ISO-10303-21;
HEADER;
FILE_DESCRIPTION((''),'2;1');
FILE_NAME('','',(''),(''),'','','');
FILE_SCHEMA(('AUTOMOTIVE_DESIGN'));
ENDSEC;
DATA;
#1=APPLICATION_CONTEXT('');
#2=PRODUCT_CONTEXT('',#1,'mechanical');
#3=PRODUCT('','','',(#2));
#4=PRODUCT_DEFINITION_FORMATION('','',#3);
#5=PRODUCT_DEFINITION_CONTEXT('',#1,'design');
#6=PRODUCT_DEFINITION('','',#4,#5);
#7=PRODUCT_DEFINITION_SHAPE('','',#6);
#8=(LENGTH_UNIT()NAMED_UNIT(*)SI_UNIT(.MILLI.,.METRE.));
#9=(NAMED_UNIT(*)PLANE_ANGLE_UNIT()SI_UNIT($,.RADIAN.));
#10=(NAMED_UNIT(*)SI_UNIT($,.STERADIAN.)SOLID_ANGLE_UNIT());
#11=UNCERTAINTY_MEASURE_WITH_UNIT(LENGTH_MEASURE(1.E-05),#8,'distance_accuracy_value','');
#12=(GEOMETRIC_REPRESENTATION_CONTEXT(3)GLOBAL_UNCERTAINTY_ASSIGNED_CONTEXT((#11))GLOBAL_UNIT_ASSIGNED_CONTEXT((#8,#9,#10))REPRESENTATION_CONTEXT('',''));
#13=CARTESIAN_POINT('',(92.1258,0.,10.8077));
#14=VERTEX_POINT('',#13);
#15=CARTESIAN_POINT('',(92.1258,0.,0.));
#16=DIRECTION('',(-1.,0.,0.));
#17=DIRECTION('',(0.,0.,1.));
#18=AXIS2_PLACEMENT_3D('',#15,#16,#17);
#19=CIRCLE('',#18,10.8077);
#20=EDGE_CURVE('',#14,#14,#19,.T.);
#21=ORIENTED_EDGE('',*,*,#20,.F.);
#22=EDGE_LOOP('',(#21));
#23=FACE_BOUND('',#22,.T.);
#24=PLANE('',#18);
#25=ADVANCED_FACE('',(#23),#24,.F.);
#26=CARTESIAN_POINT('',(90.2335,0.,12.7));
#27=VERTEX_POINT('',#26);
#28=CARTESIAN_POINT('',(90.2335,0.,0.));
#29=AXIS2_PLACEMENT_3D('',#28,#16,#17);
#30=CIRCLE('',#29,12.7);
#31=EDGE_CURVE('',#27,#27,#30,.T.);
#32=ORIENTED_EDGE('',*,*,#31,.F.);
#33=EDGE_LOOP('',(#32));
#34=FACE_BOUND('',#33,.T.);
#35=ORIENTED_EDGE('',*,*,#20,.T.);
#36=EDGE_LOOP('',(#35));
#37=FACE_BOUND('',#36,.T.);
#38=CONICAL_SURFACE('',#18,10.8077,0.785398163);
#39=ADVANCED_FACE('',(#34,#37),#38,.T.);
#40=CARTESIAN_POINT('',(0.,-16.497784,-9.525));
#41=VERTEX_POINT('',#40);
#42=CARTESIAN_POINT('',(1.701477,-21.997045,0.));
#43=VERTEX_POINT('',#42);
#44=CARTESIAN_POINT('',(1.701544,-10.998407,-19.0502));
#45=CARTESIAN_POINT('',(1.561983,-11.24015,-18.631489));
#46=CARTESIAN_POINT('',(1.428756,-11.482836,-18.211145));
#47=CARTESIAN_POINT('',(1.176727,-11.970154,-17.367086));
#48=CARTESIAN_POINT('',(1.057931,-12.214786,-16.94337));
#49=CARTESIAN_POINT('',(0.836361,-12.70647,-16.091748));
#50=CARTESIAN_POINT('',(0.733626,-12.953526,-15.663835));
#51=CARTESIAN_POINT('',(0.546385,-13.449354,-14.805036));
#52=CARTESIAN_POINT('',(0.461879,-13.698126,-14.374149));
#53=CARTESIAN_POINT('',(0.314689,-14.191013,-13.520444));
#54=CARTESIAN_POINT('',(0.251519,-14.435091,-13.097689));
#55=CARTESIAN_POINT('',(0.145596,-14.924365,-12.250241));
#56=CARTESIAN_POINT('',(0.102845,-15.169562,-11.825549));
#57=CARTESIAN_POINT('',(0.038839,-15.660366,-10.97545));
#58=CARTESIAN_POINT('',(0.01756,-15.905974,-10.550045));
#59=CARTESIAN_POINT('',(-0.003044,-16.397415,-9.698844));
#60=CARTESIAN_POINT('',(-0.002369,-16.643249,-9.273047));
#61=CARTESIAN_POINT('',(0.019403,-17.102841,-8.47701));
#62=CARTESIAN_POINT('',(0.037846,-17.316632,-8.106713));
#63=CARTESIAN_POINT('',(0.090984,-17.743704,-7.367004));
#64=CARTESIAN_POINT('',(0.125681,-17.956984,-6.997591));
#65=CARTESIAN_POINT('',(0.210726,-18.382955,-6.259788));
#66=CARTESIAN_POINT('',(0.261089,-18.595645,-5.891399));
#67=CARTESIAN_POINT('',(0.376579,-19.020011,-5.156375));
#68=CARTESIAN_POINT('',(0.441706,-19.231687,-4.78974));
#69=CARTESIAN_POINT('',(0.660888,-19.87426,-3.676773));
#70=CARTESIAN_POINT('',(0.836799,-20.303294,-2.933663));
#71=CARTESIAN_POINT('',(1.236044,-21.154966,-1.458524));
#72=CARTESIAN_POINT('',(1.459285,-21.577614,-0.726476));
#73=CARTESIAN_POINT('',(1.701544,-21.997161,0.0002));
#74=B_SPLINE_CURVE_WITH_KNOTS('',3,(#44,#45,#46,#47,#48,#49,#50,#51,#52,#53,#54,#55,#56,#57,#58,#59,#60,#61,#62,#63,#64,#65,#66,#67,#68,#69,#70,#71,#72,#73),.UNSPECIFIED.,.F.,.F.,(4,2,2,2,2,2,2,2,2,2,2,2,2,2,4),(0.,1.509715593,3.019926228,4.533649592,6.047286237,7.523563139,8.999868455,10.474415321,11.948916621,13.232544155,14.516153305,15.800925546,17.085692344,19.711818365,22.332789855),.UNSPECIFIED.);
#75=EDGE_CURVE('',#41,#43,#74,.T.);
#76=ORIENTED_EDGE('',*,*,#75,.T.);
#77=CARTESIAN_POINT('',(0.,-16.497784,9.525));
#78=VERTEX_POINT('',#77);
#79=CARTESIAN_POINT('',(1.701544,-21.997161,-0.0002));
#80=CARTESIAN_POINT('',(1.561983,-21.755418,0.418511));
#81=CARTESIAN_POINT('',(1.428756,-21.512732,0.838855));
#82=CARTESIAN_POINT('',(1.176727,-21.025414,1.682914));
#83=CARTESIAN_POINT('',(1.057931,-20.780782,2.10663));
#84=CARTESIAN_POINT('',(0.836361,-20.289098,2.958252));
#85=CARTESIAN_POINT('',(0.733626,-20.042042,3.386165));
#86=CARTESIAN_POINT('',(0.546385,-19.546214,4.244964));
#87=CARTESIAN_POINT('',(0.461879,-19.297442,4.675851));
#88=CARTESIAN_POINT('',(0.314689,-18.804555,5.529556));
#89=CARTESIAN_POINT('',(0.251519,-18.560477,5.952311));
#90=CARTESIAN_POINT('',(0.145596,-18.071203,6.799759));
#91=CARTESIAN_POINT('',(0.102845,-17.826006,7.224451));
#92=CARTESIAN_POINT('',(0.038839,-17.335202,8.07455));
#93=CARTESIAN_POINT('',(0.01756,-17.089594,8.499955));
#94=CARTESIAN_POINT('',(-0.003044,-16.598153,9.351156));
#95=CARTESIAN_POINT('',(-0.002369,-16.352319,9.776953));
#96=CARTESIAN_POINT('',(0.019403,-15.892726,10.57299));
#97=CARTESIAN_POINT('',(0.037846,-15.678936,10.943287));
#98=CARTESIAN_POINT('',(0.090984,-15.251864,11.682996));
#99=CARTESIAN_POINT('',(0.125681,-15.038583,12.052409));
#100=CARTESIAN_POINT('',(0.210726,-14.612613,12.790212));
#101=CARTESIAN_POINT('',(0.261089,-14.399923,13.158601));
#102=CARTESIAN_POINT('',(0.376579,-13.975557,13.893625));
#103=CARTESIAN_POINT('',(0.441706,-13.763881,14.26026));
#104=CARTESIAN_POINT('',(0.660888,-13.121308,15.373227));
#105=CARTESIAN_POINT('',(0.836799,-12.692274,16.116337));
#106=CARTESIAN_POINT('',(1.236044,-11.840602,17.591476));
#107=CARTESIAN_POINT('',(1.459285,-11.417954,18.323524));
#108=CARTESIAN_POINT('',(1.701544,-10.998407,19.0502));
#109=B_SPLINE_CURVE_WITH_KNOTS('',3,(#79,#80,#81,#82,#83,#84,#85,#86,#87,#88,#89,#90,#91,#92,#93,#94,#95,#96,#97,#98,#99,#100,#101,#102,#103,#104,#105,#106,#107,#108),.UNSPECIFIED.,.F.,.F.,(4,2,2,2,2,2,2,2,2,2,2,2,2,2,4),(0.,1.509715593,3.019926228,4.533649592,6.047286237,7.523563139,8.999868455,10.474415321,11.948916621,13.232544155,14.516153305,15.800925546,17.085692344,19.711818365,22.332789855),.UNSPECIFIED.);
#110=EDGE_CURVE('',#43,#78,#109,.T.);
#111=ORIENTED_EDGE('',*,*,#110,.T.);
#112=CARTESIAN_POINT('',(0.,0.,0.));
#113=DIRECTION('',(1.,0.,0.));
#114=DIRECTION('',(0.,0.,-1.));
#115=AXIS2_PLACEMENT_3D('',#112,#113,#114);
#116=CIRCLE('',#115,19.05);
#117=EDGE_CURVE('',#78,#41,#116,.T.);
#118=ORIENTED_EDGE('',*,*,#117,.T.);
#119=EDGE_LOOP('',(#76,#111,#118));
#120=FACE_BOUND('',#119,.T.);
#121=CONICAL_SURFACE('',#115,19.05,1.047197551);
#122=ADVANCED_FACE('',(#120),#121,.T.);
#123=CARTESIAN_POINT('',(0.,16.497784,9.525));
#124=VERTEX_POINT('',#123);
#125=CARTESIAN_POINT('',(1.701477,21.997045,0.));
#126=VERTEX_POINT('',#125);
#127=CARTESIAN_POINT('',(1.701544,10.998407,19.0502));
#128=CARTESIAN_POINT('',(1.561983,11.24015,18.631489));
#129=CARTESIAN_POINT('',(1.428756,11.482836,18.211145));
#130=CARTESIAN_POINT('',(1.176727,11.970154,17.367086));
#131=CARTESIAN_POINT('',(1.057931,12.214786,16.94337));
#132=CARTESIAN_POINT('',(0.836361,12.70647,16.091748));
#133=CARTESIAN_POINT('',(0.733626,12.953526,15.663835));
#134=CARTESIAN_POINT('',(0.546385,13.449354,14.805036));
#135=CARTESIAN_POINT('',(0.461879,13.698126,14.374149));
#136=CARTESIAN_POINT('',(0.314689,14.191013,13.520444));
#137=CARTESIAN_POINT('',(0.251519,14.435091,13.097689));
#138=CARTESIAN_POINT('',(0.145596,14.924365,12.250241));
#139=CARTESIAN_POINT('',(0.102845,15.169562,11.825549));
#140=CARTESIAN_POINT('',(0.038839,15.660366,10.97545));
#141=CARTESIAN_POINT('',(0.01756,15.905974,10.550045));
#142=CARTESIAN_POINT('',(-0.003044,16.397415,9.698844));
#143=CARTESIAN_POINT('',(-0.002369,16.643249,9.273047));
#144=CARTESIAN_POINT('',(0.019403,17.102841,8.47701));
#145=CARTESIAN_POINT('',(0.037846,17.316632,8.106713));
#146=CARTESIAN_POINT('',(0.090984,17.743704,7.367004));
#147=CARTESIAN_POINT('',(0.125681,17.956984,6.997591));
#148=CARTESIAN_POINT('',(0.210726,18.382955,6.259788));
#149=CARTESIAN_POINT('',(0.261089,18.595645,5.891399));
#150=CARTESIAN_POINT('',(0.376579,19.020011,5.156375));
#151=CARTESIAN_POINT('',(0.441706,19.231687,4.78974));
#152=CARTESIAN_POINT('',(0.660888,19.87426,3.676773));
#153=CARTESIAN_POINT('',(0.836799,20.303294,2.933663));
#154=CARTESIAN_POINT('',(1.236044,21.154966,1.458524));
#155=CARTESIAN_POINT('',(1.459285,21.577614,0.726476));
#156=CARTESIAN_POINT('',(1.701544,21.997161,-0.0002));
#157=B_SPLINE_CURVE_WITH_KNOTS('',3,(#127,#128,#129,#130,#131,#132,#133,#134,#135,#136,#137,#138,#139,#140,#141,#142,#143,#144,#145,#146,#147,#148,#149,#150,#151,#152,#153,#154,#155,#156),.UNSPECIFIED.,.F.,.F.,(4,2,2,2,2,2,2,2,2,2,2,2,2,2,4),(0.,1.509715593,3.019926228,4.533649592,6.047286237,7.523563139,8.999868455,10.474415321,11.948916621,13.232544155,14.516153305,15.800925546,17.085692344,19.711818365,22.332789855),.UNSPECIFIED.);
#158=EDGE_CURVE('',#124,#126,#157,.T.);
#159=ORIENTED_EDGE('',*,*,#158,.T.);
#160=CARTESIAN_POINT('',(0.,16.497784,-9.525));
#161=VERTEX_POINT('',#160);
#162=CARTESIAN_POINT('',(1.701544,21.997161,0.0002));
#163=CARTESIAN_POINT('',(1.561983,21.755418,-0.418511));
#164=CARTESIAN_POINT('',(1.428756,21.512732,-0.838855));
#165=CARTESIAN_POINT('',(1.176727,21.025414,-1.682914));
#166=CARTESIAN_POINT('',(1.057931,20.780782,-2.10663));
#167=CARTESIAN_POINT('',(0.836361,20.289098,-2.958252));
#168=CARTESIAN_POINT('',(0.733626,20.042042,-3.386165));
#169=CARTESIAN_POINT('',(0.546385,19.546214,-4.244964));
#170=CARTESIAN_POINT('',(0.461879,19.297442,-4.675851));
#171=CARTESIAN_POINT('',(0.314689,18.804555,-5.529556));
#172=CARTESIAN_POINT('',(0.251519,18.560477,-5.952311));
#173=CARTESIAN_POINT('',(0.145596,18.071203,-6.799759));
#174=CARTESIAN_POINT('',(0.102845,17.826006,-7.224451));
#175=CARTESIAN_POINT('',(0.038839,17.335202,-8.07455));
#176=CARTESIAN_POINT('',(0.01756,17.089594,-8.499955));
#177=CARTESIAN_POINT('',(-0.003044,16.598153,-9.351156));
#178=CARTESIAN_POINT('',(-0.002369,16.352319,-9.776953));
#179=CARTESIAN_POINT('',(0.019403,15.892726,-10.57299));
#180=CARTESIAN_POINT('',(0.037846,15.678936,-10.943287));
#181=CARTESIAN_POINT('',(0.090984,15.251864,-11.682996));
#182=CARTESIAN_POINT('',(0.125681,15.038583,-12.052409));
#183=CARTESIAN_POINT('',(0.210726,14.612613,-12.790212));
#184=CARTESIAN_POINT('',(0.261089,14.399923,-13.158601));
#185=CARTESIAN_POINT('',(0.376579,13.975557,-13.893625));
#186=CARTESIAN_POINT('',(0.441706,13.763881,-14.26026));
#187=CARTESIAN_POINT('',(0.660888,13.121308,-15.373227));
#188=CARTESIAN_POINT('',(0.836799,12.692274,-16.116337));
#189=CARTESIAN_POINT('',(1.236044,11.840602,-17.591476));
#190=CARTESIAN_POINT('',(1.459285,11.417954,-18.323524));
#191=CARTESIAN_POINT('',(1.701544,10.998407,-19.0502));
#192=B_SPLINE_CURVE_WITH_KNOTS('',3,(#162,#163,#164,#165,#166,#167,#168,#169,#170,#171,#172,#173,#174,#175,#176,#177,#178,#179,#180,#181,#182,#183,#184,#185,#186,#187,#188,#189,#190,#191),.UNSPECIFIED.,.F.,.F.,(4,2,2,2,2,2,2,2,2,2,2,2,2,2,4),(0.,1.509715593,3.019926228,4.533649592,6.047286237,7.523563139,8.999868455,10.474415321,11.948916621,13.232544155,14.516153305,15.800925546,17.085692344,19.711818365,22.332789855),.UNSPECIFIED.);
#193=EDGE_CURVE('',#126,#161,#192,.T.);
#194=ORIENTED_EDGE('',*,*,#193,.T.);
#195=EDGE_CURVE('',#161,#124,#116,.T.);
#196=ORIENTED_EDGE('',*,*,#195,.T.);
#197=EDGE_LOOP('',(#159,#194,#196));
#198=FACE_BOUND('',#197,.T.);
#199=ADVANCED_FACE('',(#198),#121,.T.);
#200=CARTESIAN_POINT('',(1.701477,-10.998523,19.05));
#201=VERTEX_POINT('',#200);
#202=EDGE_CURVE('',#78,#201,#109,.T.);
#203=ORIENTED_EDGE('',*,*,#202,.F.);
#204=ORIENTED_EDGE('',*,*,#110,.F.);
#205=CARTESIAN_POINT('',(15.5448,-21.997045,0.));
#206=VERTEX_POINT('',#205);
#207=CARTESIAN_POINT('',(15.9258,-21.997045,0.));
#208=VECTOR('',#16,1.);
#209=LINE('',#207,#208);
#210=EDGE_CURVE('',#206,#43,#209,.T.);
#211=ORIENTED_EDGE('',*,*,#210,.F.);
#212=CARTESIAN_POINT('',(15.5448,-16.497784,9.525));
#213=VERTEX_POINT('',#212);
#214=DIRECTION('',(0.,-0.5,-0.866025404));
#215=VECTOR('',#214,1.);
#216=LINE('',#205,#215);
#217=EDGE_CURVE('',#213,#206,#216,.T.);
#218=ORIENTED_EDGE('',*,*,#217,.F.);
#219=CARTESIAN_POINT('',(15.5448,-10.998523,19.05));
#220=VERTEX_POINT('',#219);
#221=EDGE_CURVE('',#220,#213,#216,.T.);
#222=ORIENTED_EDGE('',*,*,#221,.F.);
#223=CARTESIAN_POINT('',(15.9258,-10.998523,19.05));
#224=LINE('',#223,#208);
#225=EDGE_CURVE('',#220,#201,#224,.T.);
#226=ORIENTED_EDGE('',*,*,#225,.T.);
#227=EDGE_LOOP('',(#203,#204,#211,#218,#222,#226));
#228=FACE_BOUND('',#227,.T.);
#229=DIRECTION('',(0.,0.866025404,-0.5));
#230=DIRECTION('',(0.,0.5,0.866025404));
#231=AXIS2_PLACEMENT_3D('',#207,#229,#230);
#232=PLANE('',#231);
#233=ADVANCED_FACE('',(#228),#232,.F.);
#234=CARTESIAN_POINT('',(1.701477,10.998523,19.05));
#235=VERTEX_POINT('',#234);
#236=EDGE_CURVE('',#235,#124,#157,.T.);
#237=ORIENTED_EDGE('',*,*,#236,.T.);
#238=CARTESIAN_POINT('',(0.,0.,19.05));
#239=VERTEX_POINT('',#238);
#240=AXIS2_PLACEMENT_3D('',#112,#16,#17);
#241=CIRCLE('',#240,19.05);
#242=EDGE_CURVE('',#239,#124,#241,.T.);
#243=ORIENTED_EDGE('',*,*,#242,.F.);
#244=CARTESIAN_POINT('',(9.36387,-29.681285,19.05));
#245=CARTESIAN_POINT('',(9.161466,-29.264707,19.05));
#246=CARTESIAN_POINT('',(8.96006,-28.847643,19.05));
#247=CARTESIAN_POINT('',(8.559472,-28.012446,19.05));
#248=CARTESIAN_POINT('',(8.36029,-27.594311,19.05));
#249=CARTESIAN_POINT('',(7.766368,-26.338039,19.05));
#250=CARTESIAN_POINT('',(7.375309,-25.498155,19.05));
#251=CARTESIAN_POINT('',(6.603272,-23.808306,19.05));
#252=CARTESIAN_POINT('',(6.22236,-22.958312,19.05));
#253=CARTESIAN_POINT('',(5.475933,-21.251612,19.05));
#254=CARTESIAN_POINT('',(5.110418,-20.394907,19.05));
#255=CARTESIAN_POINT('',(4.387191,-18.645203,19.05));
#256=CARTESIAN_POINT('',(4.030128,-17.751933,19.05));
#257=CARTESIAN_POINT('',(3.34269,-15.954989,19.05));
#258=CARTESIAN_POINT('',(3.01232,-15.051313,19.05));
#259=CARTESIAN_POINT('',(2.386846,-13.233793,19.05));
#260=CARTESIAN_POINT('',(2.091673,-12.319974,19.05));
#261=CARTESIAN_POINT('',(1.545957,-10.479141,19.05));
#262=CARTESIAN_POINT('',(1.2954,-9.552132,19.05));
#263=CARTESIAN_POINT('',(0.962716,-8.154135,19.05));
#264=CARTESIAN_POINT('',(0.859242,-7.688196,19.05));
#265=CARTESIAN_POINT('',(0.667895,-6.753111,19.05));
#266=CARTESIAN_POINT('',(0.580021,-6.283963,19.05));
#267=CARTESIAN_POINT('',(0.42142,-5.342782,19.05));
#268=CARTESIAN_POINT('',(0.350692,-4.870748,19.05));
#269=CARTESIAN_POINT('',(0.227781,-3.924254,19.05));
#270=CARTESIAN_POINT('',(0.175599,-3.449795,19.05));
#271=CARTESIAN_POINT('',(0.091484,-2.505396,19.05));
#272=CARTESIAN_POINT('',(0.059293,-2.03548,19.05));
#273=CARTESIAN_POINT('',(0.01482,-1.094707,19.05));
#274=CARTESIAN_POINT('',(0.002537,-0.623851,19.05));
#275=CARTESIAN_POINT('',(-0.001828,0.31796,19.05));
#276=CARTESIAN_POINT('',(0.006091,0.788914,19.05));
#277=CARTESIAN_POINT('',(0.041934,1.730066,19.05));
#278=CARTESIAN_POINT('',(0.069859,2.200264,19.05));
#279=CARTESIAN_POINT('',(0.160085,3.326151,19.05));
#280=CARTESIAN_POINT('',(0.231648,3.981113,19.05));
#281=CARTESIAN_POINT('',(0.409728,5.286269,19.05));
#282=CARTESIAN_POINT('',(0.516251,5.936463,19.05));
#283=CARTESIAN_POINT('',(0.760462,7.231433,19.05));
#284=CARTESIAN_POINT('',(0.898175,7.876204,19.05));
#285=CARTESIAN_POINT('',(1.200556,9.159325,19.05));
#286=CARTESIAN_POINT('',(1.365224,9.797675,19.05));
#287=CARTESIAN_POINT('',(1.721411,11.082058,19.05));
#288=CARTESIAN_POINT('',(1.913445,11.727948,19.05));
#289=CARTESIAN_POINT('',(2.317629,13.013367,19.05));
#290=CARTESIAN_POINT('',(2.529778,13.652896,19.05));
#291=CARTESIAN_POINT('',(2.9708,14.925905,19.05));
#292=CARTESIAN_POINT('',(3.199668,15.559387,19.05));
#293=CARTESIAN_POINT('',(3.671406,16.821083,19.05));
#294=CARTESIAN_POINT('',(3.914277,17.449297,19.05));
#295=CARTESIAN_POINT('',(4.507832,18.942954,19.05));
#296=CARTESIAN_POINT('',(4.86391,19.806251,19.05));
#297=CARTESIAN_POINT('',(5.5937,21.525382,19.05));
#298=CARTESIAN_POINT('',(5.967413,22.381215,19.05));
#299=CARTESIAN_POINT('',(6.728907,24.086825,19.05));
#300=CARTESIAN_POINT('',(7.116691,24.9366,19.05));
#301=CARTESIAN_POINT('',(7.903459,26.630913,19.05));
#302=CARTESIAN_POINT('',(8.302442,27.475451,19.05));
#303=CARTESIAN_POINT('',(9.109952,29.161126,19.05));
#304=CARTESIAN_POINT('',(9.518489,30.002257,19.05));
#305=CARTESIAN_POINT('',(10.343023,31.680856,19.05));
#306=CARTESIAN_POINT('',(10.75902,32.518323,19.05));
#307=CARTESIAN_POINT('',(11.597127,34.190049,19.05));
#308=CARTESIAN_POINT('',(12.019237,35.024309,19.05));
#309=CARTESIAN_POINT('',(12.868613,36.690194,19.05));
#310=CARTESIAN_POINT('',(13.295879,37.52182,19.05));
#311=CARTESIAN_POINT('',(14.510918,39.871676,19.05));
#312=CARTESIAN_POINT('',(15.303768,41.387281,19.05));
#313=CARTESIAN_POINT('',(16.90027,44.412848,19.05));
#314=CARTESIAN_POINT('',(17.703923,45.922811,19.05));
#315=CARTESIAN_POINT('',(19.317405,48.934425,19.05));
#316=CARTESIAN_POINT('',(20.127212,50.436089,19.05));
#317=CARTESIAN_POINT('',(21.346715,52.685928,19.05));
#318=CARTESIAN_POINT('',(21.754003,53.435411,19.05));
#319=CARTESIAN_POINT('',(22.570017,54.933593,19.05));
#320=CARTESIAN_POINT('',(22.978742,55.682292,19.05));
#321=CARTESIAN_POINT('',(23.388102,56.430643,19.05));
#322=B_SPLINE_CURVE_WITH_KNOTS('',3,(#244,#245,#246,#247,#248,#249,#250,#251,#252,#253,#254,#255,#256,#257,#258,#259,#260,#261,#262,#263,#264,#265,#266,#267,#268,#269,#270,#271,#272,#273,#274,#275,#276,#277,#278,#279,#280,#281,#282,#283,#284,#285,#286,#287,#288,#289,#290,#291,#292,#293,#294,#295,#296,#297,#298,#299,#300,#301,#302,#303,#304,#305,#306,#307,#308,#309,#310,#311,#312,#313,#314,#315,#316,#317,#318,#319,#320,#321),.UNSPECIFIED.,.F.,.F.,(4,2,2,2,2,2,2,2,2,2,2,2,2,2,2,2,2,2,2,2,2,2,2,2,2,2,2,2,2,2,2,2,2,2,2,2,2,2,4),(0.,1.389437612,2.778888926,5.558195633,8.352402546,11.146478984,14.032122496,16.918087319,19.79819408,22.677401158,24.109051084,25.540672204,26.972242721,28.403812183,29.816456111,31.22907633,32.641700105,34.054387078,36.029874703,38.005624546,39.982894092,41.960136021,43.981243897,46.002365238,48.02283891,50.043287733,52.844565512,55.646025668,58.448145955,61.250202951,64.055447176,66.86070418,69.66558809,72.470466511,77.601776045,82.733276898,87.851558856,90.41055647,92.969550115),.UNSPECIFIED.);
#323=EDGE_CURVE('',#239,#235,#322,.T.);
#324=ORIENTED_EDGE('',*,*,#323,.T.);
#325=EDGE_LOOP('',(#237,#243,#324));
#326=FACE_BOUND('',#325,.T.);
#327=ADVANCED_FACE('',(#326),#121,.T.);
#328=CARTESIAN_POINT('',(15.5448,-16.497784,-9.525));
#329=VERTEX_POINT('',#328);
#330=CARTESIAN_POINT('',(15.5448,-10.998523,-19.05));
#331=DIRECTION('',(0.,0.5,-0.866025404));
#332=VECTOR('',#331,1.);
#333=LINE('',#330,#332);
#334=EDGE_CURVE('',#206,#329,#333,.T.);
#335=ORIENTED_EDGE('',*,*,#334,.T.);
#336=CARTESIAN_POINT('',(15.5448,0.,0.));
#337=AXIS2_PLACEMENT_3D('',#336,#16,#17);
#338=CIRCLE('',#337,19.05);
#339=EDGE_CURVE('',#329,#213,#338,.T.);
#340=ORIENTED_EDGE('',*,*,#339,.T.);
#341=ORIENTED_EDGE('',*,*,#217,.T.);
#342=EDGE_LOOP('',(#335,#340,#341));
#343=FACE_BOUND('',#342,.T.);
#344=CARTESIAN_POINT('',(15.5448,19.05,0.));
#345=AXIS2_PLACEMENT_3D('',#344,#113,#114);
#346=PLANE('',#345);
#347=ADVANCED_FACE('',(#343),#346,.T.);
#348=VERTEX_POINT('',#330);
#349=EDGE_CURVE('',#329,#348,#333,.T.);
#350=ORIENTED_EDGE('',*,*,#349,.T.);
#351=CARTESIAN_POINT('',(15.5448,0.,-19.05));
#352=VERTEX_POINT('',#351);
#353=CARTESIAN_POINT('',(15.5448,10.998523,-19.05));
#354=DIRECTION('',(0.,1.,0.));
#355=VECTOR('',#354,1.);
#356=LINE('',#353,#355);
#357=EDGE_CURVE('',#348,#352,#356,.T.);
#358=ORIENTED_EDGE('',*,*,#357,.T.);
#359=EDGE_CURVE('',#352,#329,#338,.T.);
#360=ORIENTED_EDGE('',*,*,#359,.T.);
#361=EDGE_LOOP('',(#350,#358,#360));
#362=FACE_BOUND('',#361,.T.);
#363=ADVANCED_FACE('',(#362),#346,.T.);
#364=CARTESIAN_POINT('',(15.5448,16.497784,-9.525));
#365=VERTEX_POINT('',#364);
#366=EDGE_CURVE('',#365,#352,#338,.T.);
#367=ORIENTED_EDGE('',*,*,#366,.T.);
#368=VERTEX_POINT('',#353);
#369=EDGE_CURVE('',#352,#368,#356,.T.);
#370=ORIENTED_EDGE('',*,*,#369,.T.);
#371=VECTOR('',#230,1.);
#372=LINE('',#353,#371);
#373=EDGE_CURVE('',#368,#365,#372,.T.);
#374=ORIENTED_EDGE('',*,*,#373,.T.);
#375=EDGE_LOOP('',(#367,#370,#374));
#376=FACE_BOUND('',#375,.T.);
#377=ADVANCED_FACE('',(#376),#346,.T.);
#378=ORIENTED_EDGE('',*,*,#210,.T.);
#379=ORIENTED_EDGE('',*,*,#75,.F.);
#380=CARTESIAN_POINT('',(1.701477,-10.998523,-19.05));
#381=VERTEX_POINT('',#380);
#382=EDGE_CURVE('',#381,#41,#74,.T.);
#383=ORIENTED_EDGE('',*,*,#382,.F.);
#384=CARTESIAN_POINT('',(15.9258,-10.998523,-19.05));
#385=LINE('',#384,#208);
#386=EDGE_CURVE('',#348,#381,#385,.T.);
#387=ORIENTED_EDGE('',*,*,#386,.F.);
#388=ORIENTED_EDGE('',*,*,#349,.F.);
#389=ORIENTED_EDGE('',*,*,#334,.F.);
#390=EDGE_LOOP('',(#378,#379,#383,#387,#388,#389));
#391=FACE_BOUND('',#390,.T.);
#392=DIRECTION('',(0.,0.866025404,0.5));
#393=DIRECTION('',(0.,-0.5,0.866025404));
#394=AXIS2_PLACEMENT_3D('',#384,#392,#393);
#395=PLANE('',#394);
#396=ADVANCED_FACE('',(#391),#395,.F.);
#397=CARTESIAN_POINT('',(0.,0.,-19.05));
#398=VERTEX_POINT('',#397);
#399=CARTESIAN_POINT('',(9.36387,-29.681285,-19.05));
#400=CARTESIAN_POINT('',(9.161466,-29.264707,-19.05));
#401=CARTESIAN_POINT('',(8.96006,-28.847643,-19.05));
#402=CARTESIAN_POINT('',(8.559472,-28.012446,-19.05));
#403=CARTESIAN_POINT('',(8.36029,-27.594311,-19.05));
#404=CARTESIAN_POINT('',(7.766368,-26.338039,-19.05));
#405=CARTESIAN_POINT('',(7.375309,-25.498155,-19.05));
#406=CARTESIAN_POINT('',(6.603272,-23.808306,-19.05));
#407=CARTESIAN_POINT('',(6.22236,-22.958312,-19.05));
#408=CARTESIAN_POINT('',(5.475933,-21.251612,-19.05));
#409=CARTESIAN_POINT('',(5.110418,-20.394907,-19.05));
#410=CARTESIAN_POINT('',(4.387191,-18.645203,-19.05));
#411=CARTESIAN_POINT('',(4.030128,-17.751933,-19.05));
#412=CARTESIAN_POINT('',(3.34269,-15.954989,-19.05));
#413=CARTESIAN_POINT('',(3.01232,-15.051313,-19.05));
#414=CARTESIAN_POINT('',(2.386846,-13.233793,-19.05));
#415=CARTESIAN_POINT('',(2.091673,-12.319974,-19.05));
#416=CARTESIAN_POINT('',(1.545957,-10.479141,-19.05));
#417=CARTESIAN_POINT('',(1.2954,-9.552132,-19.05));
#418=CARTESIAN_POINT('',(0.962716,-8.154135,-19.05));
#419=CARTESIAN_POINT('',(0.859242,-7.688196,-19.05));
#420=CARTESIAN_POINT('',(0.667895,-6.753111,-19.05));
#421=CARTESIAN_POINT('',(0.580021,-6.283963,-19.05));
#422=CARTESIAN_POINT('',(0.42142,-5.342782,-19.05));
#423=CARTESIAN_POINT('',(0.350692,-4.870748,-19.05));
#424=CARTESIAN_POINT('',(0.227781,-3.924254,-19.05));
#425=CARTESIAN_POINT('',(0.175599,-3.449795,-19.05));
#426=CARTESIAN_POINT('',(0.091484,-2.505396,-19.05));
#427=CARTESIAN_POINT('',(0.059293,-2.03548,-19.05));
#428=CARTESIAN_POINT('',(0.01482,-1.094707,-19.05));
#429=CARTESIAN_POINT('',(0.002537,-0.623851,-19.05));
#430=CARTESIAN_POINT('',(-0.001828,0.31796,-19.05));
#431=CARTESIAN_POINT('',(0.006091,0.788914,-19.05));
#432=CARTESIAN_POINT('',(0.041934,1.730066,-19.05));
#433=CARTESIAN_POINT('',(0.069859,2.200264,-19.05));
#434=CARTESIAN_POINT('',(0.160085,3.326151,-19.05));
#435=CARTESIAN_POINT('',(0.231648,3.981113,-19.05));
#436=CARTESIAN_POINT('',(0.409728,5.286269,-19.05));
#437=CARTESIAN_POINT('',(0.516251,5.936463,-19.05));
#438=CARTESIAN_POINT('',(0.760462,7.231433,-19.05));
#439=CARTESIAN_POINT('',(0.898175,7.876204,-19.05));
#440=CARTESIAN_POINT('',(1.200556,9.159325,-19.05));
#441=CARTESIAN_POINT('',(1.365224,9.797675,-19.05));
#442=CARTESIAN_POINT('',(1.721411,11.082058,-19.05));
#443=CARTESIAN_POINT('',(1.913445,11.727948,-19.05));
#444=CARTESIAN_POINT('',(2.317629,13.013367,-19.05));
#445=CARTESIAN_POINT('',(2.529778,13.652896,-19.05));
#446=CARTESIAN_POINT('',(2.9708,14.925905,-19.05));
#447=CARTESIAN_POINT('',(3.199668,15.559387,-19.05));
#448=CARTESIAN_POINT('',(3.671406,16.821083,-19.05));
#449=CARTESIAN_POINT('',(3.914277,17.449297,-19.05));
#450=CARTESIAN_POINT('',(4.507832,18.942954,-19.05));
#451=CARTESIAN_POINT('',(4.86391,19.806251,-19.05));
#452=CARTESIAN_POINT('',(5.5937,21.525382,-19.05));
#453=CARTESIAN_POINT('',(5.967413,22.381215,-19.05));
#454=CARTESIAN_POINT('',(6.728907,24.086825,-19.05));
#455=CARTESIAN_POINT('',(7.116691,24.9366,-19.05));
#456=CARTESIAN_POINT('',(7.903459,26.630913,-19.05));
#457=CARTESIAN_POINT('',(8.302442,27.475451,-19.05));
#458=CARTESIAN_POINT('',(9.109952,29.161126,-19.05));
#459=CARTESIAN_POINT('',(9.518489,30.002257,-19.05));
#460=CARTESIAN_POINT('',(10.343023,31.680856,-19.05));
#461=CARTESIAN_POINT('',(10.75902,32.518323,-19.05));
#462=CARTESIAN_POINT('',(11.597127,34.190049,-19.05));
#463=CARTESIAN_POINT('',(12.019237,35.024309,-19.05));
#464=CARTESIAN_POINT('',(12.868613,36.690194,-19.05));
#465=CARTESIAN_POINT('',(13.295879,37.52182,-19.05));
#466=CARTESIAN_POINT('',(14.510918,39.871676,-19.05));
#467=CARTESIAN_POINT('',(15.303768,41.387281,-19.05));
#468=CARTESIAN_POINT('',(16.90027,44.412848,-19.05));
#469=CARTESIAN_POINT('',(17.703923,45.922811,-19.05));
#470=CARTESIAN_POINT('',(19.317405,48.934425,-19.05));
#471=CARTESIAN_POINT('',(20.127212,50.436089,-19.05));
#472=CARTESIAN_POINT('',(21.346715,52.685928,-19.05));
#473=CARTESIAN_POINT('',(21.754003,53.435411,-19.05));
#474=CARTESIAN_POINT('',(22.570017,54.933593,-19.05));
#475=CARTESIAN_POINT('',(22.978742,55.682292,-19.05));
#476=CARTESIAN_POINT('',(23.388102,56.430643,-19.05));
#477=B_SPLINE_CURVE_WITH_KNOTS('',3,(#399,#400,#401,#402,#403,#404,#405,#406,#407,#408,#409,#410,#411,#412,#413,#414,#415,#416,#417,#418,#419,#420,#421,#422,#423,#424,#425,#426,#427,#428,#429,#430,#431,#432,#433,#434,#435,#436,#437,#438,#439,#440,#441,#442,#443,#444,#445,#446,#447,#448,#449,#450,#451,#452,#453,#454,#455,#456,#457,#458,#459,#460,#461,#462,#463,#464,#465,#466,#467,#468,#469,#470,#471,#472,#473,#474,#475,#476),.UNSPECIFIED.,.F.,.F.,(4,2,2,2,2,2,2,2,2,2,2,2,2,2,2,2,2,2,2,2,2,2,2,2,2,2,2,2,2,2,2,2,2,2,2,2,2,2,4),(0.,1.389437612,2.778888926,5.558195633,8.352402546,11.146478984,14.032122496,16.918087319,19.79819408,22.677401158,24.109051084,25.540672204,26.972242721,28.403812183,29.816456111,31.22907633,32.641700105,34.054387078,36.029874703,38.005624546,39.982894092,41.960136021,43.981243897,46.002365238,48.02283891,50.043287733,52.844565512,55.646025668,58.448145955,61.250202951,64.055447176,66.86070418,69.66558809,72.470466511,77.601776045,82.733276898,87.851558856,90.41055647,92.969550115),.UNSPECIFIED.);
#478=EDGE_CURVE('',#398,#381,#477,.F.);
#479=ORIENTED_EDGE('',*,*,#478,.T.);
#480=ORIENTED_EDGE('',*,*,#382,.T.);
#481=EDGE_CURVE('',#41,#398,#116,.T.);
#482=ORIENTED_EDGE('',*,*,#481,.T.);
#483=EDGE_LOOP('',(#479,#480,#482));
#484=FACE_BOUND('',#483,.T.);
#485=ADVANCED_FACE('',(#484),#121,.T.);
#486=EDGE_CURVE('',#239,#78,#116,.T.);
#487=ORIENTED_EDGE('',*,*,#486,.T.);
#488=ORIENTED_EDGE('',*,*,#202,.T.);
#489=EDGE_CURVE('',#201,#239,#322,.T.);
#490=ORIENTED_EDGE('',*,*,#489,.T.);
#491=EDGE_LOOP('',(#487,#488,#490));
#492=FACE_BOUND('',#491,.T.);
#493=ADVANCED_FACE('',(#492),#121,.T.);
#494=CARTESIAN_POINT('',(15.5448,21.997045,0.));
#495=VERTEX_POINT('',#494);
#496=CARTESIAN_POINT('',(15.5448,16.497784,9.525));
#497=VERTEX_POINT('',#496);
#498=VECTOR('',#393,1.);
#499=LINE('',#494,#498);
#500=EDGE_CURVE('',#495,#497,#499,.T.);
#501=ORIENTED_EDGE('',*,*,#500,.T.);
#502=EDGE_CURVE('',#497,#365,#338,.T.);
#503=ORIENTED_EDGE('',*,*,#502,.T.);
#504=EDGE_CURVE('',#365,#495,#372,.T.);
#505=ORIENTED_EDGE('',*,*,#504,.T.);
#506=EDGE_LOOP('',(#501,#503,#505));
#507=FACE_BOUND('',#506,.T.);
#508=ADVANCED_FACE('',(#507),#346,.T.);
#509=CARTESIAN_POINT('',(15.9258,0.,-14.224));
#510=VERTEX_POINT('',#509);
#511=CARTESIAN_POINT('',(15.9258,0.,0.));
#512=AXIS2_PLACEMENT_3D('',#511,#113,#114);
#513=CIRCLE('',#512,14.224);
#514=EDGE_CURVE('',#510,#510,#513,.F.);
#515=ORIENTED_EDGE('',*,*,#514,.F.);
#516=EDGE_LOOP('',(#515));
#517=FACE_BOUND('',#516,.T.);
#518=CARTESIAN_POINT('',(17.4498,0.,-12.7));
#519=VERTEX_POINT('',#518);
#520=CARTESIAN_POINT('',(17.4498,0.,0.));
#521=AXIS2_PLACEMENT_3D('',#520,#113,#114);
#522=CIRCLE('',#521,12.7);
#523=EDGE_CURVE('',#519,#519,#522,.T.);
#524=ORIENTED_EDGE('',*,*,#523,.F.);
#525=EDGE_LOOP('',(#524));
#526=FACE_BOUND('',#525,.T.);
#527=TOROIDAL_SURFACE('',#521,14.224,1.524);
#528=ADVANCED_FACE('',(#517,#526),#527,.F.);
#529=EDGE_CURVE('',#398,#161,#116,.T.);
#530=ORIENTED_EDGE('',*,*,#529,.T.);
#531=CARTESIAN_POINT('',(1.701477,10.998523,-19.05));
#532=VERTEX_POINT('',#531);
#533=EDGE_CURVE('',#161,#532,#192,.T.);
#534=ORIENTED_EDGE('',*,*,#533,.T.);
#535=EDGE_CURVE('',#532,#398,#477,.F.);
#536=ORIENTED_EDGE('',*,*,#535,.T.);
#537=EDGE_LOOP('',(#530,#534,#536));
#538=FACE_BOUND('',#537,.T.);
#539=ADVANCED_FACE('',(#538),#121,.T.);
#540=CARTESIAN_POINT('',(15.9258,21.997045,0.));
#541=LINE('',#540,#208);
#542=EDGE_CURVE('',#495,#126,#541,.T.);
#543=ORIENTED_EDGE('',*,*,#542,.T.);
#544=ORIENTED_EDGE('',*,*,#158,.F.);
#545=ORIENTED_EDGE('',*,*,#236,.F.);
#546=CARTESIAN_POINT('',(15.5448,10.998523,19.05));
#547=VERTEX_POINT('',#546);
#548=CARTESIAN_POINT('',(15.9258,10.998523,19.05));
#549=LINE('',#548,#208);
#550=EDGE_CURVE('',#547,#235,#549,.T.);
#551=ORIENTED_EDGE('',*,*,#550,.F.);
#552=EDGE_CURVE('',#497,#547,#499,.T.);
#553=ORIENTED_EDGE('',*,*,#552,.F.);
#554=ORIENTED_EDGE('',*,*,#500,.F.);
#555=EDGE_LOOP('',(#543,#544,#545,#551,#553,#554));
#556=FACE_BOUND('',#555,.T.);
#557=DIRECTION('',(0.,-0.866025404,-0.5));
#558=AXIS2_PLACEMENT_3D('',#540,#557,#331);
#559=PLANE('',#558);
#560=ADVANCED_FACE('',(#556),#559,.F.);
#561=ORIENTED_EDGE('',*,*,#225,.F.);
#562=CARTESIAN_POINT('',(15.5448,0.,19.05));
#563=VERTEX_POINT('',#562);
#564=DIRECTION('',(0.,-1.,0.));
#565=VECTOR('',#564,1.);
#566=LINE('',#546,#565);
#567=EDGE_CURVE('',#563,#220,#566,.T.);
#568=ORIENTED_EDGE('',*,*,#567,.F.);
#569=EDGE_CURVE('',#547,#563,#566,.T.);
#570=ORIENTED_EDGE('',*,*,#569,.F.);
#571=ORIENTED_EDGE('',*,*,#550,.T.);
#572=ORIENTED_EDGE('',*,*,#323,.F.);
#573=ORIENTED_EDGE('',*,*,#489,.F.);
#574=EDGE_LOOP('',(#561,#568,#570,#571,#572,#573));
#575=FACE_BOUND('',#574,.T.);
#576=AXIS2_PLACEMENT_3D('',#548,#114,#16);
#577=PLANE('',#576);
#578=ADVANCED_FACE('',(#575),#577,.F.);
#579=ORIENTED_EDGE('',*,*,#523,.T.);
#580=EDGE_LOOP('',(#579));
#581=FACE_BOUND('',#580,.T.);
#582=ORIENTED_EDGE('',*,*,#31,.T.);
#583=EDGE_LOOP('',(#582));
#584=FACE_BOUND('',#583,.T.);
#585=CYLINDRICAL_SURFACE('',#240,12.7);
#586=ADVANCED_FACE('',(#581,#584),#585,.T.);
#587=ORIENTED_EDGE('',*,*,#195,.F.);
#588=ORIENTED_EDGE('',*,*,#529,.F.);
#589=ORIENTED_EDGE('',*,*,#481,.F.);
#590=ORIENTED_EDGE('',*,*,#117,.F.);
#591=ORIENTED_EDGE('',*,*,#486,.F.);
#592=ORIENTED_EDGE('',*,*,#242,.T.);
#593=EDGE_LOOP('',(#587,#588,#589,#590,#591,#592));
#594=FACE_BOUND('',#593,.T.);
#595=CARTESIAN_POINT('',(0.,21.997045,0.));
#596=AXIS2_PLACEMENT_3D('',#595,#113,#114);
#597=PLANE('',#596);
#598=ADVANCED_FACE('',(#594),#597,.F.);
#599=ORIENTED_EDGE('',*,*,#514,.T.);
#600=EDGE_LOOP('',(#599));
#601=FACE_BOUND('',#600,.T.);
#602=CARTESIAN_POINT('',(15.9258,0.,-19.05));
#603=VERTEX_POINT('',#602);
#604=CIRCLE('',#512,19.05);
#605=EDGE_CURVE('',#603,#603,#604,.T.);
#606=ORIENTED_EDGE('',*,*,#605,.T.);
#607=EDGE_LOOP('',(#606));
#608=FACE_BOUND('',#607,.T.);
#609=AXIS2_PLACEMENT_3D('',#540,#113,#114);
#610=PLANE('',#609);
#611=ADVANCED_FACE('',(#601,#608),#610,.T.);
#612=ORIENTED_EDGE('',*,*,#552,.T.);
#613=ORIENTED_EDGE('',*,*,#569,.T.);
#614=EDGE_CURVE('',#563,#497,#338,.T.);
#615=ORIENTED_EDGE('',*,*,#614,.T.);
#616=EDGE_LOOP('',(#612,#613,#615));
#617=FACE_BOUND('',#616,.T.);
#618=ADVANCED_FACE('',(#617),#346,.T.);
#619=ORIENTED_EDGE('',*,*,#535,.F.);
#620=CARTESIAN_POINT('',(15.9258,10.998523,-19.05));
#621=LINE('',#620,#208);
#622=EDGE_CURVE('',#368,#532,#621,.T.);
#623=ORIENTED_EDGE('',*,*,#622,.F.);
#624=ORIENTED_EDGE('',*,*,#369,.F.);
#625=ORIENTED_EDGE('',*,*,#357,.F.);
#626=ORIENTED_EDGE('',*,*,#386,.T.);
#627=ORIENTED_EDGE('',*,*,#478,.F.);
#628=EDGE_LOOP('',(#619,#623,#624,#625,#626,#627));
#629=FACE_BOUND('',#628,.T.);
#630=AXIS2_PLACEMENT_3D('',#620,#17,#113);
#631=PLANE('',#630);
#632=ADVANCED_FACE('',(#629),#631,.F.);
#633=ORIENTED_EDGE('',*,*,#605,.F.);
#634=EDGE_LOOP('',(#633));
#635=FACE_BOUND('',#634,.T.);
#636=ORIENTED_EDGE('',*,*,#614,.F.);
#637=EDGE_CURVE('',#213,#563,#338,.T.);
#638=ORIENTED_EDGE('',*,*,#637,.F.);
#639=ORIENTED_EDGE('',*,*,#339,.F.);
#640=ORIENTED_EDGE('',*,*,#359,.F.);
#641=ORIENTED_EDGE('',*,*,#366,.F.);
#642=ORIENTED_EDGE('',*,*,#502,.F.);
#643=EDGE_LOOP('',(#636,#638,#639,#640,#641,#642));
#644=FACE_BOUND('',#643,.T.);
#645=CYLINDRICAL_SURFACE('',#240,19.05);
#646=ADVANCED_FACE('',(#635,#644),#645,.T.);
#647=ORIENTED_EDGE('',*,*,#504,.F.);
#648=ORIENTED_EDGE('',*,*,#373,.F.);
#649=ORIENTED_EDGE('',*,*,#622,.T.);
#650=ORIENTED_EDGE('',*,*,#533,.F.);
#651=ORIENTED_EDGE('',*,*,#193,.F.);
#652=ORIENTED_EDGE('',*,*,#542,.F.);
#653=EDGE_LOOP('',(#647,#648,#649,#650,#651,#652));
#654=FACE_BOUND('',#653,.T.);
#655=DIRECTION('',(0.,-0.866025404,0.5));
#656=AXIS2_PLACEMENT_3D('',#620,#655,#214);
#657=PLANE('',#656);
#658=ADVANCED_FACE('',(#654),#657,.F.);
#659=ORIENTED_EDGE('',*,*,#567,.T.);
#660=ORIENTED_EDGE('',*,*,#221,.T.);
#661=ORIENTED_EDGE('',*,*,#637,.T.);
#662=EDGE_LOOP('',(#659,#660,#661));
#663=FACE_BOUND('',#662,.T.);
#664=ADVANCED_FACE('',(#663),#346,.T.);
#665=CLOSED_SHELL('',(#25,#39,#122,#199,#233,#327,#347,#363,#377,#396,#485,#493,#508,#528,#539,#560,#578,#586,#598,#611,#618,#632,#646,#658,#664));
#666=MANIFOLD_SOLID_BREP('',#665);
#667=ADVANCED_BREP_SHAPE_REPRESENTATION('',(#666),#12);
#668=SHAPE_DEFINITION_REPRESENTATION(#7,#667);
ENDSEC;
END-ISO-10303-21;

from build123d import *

# Parameters (mm, degrees)
BASEHEAD_DEPTH = 15.9258
SKETCH4_W      = 0.381
SKETCH4_H      = 28.347045256
HEADFILLET_R   = 1.524


with BuildPart() as part:
    # Sketch1 → BaseHead (new body)
    with BuildSketch(Plane(origin=(0, 0, 0), x_dir=(0, 0, -1), z_dir=(1, 0, 0))):
        Polygon((19.05, 10.998522628), (19.05, -10.998522628), (0, -21.997045256), (-19.05, -10.998522628), (-19.05, 10.998522628), (0, 21.997045256), align=None)
    extrude(amount=BASEHEAD_DEPTH)

    # BodySke → BaseBody (revolve)
    with BuildSketch(Plane.XY, mode=Mode.PRIVATE) as basebody_sk:
        Polygon((0, 0), (92.1258, 0), (92.1258, 10.8077), (90.2335, 12.7), (0, 12.7), align=None)
    revolve(basebody_sk.sketch.rotate(Axis((0, 0, 0), (1, 0, 0)), 90), axis=Axis((0, 0, 0), (1, 0, 0)))

    # Sketch3 → HeadChamfer (revolve, cut)
    with BuildSketch(Plane.XY):
        Polygon((0, 19.05), (5.367651581, 28.347045256), (5.367651581, 34.697045256), (-12.7, 34.697045256), (-12.7, 19.05), align=None)
    revolve(axis=Axis((0, 0, 0), (1, 0, 0)), mode=Mode.SUBTRACT)

    # Sketch4 → BearingFace (revolve, cut)
    with BuildSketch(Plane.XY, mode=Mode.PRIVATE) as bearingface_sk:
        with Locations((15.7353, 33.223522628)):
            Rectangle(SKETCH4_W, SKETCH4_H)
    revolve(bearingface_sk.sketch.rotate(Axis((0, 0, 0), (1, 0, 0)), 270), axis=Axis((0, 0, 0), (1, 0, 0)), mode=Mode.SUBTRACT)

    # HeadFillet
    headfillet_edges = [part.edges().sort_by_distance(p)[0] for p in [
        (15.9258, 0, -12.7),
    ]]
    fillet(headfillet_edges, radius=HEADFILLET_R)


solid = part.part
